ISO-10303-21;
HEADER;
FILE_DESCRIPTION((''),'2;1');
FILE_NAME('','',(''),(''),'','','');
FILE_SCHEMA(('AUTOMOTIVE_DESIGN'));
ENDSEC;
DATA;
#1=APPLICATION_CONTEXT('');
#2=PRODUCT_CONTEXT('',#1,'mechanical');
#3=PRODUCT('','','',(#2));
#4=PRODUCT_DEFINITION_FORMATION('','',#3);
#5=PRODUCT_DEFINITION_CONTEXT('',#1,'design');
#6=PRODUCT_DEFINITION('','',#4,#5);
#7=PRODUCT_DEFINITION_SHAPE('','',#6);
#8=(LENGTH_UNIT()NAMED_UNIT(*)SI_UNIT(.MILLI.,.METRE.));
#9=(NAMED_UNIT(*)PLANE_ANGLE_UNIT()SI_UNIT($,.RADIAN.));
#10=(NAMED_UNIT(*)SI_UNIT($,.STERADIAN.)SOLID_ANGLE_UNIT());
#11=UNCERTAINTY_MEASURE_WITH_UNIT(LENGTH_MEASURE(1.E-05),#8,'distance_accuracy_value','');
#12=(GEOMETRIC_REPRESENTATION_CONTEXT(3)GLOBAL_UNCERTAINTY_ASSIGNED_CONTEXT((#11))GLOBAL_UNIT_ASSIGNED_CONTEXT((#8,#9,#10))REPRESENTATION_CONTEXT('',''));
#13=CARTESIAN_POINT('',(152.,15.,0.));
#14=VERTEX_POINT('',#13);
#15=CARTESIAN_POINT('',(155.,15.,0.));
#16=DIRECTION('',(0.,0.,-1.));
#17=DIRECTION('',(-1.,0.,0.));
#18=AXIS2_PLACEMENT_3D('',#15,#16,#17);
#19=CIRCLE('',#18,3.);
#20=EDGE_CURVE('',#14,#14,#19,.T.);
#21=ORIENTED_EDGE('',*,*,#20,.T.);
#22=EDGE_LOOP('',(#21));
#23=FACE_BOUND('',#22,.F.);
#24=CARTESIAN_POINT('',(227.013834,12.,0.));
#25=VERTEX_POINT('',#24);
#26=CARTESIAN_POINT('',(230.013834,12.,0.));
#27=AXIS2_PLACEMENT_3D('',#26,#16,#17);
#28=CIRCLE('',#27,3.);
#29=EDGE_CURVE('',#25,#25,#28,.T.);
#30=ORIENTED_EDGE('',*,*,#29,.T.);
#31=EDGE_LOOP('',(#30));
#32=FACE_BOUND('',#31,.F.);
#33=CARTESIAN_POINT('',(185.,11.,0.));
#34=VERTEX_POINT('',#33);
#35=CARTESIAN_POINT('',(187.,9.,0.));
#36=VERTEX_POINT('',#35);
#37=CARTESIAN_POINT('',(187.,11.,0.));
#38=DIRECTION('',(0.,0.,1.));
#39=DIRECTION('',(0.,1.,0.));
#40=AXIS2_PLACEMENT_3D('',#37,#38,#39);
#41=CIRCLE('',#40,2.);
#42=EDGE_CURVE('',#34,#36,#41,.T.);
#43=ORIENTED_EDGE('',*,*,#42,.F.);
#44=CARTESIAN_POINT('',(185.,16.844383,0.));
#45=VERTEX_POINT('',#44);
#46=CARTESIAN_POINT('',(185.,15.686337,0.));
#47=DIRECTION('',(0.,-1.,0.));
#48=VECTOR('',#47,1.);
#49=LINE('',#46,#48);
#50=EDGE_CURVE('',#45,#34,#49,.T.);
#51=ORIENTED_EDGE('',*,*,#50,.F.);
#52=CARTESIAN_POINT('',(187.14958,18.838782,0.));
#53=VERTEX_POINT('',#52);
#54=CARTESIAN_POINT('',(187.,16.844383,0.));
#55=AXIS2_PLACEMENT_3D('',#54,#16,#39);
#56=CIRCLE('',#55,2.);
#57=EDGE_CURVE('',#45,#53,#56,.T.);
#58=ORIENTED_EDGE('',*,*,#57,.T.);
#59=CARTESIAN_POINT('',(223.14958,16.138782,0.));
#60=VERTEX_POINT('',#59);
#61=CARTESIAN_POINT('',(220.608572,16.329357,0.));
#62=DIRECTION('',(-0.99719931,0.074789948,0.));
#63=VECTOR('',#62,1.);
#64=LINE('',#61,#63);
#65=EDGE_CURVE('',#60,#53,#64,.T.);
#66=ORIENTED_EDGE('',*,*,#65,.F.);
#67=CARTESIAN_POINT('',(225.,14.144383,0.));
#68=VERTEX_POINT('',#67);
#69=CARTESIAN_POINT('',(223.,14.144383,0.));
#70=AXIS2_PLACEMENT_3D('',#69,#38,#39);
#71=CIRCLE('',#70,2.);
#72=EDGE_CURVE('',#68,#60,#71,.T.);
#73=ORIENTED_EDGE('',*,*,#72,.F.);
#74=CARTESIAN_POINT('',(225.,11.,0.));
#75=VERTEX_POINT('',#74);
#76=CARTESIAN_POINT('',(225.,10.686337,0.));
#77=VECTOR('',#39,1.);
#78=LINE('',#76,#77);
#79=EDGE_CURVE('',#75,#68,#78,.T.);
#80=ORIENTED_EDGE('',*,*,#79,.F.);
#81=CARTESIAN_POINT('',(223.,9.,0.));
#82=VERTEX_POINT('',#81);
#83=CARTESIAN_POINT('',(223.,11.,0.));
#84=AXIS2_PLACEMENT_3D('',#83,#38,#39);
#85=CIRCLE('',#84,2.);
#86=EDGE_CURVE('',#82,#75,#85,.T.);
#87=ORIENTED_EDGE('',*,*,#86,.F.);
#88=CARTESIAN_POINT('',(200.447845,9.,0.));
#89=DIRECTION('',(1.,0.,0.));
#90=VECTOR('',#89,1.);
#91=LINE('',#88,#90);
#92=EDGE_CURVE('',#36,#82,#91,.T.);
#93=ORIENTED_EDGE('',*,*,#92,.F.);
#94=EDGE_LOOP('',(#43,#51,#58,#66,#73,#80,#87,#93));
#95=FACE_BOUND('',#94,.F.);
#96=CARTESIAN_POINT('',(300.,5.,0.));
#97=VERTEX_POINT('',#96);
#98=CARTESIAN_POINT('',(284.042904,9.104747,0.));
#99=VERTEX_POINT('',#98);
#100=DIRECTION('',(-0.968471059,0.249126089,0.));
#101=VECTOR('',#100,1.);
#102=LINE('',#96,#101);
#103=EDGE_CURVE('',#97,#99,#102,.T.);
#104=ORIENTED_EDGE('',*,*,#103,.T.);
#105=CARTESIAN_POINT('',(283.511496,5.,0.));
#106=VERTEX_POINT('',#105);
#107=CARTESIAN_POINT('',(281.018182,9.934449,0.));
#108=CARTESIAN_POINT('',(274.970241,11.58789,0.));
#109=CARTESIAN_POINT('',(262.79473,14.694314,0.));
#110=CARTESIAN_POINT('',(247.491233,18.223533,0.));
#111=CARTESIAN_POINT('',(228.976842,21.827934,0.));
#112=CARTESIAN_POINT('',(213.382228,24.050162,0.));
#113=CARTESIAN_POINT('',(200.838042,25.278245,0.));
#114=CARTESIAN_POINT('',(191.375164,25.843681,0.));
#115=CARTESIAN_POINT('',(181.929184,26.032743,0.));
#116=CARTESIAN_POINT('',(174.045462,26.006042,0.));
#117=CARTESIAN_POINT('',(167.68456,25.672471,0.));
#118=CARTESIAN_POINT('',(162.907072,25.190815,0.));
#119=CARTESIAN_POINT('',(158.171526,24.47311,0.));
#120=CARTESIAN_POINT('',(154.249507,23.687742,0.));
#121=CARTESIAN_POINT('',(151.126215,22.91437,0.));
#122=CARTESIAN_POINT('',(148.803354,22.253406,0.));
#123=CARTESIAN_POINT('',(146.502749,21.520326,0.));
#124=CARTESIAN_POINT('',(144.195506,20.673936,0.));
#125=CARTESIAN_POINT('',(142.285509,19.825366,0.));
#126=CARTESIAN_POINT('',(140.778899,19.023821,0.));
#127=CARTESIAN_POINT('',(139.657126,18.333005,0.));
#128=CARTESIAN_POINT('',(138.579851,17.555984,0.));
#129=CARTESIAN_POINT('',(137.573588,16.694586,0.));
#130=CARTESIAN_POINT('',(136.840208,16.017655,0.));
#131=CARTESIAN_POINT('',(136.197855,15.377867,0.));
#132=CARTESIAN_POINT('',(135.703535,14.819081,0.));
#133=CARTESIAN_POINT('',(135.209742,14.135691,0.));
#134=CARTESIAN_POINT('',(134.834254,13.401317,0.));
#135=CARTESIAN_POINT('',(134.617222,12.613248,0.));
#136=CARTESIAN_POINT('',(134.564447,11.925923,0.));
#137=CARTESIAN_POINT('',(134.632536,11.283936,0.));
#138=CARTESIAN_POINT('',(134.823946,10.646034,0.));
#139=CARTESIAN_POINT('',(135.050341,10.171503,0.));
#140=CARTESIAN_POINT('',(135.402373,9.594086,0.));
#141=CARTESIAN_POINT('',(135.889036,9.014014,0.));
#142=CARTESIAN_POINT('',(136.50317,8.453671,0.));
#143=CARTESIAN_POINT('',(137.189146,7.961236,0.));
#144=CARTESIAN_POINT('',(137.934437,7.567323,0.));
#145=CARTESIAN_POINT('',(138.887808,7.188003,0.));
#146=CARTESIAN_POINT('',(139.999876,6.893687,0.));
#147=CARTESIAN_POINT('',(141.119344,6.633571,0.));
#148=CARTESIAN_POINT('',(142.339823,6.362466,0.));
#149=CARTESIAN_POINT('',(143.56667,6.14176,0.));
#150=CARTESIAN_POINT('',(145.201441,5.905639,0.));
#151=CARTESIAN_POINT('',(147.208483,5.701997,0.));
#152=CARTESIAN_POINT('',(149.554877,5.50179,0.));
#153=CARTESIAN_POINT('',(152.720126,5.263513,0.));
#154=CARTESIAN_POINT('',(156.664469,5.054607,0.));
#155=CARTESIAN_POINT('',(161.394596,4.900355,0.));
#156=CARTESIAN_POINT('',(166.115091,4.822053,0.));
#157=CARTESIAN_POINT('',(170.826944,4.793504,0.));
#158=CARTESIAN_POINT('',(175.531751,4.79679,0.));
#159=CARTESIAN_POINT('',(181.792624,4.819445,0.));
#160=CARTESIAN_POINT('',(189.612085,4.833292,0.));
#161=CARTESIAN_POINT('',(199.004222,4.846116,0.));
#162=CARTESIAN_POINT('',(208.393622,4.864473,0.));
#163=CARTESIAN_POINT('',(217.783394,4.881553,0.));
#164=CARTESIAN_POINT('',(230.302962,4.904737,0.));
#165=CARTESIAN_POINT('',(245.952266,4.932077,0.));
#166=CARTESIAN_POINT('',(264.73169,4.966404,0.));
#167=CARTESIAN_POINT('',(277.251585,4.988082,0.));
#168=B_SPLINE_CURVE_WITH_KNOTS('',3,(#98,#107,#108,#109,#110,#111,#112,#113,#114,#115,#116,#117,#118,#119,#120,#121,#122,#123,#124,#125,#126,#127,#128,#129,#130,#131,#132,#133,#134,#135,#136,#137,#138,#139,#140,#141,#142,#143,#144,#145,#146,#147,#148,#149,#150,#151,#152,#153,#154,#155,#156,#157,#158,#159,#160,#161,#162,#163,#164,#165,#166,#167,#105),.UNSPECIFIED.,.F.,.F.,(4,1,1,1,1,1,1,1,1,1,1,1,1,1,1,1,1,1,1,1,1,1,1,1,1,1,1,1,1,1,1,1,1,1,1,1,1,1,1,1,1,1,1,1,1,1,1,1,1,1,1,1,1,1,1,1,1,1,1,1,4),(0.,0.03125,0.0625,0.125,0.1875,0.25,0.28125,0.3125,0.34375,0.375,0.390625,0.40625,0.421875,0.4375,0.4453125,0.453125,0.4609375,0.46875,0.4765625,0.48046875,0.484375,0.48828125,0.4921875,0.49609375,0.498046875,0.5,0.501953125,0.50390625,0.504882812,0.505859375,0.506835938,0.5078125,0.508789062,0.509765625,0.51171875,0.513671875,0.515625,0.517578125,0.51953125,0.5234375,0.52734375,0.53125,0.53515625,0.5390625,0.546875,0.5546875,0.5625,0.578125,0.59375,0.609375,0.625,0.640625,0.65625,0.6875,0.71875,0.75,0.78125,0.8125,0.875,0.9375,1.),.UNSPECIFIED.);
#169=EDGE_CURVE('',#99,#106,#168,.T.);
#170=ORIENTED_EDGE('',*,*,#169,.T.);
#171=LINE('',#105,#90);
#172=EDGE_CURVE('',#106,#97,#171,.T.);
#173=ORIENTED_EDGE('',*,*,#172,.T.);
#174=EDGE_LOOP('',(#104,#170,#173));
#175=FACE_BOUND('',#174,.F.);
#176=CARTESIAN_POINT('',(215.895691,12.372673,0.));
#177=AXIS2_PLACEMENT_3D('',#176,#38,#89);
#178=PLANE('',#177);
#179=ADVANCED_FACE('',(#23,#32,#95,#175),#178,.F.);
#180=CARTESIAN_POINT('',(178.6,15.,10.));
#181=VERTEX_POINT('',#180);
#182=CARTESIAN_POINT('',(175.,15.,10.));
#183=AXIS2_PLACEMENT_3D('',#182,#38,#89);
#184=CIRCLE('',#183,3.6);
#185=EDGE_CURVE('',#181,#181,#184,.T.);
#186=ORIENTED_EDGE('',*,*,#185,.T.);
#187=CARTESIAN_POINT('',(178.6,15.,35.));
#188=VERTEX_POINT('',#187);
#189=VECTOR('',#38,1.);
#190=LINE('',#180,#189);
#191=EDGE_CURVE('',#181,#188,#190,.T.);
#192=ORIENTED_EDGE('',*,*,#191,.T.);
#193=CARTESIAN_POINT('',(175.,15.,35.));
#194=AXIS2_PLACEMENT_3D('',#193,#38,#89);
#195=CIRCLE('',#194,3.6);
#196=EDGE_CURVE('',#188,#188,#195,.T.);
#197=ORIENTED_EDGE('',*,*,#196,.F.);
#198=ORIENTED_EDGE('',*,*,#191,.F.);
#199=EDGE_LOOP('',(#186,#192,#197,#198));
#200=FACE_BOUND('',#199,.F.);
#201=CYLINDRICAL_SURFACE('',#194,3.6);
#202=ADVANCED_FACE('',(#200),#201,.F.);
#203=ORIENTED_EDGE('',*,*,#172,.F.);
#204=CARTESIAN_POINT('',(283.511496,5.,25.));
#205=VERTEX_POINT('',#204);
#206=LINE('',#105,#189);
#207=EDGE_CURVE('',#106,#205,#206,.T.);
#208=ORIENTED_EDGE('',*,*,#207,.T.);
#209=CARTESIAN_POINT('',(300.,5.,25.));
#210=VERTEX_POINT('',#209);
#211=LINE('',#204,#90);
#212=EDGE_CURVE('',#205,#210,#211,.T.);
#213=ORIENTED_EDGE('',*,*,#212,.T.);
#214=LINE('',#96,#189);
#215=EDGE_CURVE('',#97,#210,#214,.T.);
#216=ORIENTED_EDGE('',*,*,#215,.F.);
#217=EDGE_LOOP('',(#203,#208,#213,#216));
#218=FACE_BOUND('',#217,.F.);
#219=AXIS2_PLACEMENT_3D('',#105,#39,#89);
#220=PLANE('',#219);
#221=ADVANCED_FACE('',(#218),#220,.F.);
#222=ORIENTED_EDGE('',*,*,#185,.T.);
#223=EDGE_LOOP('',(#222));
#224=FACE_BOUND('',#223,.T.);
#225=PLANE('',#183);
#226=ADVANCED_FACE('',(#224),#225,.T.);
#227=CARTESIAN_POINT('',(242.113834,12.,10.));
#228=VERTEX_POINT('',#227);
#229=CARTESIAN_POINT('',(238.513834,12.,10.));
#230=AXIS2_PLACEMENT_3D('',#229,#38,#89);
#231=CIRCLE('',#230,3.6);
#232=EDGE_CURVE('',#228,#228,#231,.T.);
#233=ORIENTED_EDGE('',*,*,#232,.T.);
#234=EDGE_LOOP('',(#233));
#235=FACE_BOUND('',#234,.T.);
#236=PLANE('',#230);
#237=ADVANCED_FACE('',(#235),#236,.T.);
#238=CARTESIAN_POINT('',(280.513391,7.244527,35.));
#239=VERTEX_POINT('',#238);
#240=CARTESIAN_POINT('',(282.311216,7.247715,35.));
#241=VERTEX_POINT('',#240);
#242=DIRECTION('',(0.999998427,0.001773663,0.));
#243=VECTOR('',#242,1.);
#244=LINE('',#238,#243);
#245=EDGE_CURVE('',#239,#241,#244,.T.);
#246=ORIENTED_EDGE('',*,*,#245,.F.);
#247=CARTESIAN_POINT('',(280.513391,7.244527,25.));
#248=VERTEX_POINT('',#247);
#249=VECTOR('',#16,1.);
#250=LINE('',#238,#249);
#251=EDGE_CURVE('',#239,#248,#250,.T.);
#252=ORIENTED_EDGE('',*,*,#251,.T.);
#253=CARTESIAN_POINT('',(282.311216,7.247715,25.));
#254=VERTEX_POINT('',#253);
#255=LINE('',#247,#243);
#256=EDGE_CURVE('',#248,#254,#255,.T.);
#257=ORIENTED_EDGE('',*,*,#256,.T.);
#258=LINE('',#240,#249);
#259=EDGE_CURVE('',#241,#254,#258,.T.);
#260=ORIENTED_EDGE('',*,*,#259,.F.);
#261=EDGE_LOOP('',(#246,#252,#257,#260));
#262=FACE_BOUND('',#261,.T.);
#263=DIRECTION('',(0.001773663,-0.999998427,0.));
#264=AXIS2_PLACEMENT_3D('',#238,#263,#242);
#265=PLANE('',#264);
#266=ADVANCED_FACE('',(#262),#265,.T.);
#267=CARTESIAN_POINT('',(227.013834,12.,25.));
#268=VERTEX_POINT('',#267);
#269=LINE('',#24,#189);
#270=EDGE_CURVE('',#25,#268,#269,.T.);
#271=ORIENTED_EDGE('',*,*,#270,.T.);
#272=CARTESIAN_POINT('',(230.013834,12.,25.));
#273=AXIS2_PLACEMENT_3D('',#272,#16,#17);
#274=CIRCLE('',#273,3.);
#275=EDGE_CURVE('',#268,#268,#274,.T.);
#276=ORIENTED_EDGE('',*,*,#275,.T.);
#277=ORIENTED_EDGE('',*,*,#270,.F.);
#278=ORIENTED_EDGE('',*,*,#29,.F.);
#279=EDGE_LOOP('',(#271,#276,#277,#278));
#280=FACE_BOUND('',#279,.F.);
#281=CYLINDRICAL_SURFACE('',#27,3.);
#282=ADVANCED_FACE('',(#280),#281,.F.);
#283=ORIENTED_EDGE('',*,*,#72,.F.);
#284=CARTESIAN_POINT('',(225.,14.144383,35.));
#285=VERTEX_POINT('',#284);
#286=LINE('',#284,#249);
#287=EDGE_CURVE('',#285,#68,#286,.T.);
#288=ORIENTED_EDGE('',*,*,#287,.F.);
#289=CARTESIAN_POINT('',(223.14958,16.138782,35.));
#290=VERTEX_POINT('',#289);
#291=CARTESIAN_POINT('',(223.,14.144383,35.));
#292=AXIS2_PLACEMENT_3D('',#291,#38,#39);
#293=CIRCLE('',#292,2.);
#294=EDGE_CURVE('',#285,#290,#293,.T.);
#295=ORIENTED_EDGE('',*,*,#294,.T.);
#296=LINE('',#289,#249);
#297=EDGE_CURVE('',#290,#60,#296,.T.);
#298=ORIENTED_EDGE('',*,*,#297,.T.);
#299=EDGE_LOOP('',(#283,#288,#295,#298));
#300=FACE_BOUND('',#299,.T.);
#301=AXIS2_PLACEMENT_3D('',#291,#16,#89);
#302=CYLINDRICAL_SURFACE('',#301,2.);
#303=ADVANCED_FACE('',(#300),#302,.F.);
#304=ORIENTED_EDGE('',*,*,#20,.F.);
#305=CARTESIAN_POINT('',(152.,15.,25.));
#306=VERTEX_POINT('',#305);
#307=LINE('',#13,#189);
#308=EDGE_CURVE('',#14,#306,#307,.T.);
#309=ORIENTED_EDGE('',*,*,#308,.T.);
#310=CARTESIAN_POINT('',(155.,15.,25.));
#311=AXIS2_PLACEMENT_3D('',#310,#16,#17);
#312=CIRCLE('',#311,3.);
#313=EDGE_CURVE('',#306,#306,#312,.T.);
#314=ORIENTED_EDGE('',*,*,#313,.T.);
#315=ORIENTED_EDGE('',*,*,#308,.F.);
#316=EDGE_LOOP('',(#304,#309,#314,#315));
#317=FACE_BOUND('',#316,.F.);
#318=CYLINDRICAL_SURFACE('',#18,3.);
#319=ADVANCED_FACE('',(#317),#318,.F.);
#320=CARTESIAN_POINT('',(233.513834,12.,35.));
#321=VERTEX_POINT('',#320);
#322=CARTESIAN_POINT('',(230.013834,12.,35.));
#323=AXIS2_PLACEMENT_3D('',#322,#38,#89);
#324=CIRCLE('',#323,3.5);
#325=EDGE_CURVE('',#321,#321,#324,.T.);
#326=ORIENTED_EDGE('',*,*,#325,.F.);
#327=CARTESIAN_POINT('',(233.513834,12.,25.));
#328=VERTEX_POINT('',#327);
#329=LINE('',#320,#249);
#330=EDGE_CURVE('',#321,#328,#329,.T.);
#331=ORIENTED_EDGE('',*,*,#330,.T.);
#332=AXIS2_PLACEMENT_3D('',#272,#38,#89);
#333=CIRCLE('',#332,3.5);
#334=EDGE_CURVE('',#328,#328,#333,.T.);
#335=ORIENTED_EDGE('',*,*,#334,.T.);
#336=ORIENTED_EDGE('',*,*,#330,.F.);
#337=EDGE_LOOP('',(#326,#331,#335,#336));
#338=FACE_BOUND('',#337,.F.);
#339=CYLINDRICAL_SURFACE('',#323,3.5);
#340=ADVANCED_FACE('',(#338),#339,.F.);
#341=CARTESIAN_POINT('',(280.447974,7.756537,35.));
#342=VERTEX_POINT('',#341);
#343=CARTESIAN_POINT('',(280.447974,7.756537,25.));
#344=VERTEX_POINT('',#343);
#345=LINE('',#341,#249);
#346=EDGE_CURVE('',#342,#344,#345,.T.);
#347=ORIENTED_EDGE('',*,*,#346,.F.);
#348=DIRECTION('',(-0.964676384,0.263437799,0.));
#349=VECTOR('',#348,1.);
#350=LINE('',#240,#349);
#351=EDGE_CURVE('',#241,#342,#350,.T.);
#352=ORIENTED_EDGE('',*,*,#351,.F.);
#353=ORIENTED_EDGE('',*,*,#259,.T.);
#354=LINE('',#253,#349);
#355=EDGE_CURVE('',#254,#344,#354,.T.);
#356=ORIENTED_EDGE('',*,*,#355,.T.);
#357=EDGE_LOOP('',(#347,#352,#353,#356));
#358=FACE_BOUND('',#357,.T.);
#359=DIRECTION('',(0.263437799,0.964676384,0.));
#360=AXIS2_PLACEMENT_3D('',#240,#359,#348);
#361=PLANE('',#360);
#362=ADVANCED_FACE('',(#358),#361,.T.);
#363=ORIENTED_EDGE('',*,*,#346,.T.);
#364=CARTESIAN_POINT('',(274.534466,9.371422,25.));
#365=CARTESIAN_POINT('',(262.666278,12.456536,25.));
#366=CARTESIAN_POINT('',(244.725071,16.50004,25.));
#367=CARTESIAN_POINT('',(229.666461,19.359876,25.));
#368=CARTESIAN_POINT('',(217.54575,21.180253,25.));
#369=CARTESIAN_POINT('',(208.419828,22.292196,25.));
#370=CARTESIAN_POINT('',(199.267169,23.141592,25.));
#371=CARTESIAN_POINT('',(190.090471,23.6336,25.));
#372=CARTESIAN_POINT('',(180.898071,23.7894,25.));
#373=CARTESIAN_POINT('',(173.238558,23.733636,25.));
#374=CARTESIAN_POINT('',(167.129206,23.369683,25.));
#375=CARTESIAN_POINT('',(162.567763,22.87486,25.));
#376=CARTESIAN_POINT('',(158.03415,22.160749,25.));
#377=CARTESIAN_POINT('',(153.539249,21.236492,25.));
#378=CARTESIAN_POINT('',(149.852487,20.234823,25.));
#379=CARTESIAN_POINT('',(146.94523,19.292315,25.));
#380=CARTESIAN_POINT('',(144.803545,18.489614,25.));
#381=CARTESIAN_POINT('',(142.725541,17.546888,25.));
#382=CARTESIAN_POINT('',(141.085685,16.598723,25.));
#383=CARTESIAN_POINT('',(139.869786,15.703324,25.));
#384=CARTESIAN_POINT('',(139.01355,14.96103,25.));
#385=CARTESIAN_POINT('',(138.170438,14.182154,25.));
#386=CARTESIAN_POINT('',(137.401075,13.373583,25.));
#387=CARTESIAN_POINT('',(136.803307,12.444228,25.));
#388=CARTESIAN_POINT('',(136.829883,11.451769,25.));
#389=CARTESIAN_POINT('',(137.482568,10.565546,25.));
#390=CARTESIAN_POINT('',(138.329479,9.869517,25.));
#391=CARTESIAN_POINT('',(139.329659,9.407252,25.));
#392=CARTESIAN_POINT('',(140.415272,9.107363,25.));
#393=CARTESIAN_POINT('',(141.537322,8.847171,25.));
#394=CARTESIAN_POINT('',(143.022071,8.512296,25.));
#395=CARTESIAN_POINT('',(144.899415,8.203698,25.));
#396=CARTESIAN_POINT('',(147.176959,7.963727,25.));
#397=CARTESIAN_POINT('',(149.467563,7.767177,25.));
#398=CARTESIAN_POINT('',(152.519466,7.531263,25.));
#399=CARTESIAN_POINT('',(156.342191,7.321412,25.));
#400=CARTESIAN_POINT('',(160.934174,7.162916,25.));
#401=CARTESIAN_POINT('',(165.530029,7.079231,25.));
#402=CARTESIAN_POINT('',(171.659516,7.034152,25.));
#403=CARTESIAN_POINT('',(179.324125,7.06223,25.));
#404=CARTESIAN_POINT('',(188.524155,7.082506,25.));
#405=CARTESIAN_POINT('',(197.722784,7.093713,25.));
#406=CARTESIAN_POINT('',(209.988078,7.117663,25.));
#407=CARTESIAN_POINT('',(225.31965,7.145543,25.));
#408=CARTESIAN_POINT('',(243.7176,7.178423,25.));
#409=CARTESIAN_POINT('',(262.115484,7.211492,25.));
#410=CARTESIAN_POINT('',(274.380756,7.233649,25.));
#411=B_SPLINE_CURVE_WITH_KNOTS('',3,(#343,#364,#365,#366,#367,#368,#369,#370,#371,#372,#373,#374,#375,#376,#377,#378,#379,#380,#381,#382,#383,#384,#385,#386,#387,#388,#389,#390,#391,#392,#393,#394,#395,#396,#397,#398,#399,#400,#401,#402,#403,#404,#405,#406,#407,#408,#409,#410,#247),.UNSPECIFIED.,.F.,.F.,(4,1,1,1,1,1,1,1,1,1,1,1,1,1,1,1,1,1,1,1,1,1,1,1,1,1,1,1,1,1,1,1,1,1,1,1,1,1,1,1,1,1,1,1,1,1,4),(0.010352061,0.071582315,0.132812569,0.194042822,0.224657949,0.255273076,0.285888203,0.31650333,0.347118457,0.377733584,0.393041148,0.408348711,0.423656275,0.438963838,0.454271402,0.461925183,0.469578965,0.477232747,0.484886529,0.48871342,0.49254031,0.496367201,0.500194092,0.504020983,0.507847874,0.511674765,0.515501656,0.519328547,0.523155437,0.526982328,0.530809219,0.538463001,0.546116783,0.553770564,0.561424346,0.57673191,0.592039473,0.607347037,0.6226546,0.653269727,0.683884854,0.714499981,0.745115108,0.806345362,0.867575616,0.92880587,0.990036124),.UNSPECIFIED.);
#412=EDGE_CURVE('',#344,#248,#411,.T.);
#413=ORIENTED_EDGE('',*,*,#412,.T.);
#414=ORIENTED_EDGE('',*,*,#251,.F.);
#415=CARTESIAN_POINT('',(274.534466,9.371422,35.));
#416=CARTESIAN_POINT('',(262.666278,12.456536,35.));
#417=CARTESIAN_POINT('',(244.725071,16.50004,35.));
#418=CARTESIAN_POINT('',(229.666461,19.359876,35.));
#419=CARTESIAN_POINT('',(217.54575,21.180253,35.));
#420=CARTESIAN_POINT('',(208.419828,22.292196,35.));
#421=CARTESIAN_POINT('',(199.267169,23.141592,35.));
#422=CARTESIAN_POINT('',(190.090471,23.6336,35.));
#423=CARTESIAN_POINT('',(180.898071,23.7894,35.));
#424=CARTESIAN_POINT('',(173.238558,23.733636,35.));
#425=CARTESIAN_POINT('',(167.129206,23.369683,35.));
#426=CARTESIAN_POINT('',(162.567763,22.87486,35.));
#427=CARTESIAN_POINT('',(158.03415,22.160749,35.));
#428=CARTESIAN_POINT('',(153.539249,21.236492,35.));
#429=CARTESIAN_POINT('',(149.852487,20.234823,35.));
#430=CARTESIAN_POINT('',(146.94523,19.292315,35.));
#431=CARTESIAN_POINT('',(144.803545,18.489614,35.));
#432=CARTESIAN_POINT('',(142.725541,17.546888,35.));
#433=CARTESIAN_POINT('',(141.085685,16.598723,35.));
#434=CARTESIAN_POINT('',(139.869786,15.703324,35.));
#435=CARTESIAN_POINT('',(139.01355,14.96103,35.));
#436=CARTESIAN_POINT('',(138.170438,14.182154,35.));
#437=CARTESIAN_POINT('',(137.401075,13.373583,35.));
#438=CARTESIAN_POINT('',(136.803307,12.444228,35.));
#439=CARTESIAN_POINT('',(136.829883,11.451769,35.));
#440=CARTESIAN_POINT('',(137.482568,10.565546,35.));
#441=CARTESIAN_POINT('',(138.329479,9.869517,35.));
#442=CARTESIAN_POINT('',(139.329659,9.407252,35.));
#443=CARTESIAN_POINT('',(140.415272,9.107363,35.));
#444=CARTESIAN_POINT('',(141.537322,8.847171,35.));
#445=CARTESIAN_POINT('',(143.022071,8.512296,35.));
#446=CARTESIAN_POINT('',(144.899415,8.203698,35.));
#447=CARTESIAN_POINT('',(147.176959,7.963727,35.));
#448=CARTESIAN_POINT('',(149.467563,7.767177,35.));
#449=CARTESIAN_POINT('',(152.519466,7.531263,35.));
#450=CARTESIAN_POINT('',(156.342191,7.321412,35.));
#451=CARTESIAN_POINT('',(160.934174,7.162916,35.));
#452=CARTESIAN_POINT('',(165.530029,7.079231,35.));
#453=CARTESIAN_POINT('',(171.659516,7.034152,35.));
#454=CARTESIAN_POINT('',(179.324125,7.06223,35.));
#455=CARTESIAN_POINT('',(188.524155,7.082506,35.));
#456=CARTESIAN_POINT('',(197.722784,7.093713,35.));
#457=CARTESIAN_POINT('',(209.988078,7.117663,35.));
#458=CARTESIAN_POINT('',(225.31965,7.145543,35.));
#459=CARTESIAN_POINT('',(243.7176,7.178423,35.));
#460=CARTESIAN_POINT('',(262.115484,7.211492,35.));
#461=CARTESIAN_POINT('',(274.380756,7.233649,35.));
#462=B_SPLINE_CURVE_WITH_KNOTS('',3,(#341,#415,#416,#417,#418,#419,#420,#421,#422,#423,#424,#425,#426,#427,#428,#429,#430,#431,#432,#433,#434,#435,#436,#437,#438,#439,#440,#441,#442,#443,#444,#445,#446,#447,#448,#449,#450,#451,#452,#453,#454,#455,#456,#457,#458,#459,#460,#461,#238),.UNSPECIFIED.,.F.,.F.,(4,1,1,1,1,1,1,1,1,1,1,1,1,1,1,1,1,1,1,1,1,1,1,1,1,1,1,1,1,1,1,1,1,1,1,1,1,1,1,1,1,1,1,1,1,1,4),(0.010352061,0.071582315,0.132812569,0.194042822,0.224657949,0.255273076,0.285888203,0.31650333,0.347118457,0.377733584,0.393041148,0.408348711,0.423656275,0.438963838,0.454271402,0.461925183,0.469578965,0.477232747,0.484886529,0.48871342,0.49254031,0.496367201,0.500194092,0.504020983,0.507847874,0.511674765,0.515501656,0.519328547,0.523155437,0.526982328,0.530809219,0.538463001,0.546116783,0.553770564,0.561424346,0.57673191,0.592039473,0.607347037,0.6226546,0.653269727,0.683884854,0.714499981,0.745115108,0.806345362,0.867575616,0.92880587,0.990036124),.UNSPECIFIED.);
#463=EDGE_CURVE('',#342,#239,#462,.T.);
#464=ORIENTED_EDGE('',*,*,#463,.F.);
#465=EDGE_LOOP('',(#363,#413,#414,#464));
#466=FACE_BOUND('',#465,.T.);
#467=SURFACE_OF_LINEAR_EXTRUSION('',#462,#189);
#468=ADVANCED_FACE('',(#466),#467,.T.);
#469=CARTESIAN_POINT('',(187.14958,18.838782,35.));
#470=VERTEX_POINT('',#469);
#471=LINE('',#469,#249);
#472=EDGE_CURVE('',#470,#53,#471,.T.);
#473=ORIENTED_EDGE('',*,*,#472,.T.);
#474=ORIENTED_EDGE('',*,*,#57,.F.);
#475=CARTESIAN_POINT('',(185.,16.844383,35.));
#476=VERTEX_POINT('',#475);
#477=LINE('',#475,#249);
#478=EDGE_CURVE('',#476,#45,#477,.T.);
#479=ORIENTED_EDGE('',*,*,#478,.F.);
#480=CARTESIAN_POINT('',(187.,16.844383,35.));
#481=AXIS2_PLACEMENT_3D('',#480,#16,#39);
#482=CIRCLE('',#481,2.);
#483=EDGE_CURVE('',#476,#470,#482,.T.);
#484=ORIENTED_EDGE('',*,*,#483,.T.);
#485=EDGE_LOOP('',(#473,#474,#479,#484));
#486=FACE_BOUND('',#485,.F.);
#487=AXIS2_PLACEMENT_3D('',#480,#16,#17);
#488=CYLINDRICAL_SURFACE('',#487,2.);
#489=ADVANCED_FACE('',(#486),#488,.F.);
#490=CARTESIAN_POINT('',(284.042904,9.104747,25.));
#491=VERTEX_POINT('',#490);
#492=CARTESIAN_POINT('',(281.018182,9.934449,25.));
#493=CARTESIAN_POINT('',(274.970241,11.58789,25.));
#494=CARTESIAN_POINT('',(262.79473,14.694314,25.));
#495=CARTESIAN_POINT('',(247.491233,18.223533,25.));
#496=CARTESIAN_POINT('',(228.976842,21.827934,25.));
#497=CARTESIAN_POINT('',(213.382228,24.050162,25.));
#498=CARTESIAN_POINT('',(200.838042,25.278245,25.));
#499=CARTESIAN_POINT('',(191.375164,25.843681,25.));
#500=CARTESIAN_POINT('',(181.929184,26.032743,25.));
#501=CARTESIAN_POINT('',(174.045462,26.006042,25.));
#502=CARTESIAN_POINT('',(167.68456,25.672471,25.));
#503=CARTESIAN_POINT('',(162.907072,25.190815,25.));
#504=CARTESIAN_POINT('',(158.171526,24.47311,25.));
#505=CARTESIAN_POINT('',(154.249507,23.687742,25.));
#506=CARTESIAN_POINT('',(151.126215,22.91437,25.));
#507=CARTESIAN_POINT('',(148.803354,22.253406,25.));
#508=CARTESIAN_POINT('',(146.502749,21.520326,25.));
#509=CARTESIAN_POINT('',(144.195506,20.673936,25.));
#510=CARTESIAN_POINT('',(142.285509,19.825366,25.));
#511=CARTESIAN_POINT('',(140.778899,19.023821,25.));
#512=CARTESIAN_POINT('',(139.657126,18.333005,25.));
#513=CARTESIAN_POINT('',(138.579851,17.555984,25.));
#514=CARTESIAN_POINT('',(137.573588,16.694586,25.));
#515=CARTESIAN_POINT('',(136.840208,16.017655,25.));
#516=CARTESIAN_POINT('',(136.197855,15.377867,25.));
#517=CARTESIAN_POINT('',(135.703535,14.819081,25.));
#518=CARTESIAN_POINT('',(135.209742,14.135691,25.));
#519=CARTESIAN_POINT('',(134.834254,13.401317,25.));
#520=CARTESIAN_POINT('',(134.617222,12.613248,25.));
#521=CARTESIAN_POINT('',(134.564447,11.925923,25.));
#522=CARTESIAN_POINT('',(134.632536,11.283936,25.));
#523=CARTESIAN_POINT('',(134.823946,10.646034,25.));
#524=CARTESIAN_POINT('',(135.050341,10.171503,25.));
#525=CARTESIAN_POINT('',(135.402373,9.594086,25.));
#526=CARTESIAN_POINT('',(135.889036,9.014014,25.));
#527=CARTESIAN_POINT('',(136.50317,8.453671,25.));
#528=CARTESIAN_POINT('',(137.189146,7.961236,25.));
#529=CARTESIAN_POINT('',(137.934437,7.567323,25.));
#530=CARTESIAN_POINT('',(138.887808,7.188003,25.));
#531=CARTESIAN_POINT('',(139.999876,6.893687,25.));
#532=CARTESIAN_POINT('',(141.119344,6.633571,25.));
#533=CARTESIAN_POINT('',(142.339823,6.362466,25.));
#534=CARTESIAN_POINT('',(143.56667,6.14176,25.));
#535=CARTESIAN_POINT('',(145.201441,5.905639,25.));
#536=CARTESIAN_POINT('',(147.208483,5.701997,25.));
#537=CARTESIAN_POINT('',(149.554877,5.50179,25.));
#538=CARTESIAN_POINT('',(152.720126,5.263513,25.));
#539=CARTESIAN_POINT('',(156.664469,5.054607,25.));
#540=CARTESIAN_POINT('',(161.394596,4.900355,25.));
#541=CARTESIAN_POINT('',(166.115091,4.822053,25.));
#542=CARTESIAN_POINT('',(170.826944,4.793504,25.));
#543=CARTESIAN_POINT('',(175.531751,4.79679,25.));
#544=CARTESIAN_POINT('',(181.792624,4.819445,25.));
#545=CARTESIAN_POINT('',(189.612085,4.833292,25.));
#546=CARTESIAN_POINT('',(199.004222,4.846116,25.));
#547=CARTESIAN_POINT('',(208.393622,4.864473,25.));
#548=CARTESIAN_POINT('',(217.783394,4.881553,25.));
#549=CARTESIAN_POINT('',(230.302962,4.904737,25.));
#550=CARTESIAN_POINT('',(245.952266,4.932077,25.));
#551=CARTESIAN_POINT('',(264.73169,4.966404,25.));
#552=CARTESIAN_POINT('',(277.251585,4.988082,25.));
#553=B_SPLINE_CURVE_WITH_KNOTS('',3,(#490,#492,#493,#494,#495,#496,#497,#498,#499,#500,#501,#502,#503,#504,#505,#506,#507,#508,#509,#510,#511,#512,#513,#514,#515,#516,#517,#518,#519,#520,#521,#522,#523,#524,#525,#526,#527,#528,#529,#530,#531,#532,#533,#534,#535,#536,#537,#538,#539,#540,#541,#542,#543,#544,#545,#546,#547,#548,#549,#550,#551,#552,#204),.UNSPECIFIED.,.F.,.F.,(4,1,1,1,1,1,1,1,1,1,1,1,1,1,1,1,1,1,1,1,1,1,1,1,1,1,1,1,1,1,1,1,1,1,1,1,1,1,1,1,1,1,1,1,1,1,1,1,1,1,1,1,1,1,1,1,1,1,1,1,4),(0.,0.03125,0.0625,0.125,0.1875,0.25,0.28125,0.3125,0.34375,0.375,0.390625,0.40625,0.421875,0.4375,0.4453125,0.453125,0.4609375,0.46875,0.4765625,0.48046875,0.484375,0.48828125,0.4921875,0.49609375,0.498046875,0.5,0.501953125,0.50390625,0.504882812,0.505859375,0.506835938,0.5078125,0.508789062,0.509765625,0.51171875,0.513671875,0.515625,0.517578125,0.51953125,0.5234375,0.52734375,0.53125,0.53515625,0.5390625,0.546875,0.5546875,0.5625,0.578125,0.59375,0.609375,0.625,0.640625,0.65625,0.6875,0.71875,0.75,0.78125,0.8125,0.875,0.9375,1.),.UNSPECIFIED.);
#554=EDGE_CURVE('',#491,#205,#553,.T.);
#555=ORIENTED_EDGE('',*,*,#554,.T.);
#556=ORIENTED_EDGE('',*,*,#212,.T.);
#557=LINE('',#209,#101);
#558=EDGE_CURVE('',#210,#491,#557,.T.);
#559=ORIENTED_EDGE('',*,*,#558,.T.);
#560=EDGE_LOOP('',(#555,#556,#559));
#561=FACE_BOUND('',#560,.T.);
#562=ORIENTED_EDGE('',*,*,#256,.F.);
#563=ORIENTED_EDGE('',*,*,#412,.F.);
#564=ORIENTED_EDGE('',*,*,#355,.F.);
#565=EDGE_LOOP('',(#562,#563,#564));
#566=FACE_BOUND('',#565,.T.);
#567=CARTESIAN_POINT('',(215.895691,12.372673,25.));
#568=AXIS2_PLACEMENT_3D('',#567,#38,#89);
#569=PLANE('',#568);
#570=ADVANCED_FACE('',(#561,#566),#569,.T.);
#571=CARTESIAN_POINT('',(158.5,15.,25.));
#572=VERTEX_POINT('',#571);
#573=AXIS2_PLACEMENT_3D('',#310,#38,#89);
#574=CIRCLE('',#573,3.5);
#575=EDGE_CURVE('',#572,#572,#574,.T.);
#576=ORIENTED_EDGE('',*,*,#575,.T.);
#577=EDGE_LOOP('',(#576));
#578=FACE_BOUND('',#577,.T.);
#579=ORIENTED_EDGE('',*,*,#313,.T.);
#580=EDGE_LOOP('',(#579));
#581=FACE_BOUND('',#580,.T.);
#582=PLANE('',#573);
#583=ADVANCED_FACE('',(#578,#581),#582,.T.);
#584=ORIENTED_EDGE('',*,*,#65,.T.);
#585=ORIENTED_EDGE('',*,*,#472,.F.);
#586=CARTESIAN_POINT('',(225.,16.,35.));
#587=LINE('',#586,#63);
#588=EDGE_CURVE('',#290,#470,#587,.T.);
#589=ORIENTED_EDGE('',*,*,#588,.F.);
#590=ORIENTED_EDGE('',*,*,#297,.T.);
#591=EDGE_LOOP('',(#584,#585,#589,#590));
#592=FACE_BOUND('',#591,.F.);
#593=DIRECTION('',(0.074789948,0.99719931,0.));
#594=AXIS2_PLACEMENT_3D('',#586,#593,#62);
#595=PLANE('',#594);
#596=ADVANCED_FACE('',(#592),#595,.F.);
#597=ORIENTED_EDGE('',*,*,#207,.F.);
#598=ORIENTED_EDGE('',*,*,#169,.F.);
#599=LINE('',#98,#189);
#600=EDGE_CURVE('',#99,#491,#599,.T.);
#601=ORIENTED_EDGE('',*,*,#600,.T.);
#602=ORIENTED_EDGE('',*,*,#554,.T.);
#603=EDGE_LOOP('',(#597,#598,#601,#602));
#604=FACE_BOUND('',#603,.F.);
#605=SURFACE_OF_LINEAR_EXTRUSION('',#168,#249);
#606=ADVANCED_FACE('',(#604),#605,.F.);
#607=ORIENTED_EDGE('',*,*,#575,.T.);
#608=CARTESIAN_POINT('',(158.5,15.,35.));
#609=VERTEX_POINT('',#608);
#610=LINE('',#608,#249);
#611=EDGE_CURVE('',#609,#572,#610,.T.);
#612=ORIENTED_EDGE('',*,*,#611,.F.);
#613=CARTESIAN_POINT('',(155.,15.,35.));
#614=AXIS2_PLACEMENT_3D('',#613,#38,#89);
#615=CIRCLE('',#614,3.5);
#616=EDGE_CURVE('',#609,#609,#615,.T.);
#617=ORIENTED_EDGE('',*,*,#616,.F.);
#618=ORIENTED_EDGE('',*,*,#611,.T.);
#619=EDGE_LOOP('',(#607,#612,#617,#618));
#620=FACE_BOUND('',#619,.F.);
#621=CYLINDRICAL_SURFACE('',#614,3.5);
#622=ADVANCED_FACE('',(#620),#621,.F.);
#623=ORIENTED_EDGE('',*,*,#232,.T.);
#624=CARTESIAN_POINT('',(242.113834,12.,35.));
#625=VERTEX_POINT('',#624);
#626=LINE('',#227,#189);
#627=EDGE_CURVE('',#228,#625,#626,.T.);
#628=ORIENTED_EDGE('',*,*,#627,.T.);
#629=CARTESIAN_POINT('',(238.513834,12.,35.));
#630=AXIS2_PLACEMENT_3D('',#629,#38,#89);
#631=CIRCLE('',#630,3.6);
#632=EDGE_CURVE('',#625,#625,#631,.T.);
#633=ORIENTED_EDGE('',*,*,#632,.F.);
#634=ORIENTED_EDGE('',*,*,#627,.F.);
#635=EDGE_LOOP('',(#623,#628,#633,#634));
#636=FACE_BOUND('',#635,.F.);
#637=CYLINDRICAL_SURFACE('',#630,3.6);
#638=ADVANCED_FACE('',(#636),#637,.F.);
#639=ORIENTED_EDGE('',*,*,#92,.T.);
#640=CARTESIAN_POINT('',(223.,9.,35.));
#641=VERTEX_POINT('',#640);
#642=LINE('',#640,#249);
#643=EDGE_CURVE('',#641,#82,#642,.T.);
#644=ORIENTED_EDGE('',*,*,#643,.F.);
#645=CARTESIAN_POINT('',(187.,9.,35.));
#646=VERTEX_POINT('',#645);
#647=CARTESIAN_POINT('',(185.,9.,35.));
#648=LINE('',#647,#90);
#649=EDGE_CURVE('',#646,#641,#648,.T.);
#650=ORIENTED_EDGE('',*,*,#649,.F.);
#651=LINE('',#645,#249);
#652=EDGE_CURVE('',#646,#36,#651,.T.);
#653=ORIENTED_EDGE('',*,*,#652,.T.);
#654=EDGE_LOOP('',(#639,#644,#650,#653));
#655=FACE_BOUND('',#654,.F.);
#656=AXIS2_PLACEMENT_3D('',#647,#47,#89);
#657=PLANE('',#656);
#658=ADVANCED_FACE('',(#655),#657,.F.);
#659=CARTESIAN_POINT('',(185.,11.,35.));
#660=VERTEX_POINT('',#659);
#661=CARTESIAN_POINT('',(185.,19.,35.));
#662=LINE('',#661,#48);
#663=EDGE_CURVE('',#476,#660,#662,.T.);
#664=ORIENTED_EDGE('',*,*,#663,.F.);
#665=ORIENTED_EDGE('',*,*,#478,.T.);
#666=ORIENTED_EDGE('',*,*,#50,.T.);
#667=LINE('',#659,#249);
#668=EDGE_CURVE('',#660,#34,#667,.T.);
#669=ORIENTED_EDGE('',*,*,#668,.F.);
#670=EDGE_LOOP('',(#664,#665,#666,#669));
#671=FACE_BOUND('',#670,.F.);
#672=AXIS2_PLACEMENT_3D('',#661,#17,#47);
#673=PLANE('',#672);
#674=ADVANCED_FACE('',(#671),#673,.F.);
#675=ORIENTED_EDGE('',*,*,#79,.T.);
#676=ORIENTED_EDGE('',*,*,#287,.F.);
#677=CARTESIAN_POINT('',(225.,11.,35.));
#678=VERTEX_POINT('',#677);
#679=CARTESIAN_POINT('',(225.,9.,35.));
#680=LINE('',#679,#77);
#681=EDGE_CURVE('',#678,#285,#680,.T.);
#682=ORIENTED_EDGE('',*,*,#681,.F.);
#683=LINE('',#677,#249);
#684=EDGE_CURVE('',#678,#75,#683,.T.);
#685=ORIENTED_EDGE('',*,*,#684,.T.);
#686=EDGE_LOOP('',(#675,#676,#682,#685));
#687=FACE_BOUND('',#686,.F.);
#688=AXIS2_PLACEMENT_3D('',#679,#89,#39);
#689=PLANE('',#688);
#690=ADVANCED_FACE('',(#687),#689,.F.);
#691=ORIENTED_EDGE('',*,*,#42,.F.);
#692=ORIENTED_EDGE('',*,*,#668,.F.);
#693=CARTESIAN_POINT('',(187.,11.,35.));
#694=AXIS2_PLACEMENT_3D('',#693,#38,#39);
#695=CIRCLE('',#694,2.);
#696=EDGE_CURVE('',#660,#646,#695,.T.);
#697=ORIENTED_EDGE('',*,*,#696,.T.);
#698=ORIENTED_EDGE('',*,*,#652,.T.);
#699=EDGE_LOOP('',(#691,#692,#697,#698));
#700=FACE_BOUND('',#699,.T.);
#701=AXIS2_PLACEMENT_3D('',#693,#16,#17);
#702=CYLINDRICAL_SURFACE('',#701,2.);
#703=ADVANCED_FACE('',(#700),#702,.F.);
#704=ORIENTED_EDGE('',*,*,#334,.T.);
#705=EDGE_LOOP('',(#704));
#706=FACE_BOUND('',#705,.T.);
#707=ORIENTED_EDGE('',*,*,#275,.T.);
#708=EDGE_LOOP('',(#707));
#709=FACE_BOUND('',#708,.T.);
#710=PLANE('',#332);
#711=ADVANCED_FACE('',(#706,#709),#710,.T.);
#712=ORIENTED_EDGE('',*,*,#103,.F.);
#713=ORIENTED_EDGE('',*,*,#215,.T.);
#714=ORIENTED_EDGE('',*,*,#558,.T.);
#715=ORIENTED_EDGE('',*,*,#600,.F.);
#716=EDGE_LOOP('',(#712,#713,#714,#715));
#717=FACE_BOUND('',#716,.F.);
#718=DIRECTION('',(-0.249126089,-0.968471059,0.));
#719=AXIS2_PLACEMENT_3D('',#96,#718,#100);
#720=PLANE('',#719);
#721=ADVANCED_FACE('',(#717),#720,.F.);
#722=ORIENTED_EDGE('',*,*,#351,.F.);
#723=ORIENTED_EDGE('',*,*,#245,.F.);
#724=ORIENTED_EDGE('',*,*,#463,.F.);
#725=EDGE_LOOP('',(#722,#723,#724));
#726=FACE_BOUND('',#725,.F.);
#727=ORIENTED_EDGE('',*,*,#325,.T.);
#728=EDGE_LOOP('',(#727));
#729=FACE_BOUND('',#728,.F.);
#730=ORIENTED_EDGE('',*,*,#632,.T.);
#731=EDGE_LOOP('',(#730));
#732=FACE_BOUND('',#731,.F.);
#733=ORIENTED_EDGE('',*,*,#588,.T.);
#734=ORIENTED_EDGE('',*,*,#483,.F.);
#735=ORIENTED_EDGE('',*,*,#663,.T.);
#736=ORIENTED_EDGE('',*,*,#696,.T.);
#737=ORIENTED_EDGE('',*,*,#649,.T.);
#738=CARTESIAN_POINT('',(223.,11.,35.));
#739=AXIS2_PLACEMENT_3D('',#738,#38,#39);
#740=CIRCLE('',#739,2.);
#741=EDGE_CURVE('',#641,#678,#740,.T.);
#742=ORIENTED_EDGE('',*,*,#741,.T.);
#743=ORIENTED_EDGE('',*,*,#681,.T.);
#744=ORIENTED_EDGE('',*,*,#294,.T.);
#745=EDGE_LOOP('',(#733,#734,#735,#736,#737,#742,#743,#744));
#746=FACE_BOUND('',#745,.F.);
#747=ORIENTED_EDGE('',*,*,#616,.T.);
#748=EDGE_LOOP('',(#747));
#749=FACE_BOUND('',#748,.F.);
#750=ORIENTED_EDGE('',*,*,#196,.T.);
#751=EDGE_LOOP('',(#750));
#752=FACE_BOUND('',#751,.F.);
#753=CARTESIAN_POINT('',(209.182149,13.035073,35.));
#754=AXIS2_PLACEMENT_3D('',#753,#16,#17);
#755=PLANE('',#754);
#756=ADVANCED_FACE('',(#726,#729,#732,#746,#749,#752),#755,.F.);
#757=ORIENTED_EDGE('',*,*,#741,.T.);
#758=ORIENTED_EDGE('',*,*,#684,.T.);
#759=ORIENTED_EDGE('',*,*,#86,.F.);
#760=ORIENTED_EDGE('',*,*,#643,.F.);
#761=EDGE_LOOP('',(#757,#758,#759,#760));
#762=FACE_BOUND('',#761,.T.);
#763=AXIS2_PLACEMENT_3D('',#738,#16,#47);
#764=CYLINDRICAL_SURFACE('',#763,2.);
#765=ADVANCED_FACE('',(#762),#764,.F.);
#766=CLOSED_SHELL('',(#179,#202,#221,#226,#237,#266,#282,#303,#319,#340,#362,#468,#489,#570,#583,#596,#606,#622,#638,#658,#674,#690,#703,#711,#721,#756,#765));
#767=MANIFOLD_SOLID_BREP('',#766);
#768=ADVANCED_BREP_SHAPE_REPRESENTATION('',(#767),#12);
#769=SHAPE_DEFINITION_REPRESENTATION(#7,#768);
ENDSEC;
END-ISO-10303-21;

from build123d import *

# Parameters (mm, degrees)
BOSS_EXTRUDE1_DEPTH = 25
BOSS_EXTRUDE2_DEPTH = 10
SKETCH4_R           = 3.6
CUT_EXTRUDE1_DEPTH  = 15
CUT_EXTRUDE3_DEPTH  = 36.0000001
FILLET1_R           = 2
SKETCH7_R           = 3.6
CUT_EXTRUDE5_DEPTH  = 10
CUT_EXTRUDE8_DEPTH  = 10
SKETCH12_R          = 3
CUT_EXTRUDE9_DEPTH  = 36.0000001
SKETCH13_R          = 3.5
CUT_EXTRUDE10_DEPTH = 10


with BuildPart() as part:
    # Sketch1 → Boss-Extrude1 (new body)
    with BuildSketch(Plane.XY):
        with BuildLine():
            Line((283.511495539, 5), (300, 5))
            Line((300, 5), (284.042903706, 9.104747331))
            add(Edge.make_bspline(
                [(284.042903706, 9.104747331), (281.018182266, 9.934448854), (274.970241175, 11.587890144), (262.79473022, 14.694313575), (247.491233442, 18.223533255), (228.976842031, 21.827934197), (213.382227838, 24.050161757), (200.838041916, 25.278245027), (191.375164043, 25.84368073), (181.929184267, 26.032743059), (174.045462371, 26.006042455), (167.684560321, 25.672470841), (162.907071513, 25.190814957), (158.171526473, 24.473110108), (154.249506507, 23.687741972), (151.126214943, 22.914370362), (148.803354307, 22.253406079), (146.502749028, 21.520325526), (144.195506174, 20.673935797), (142.285508901, 19.825366279), (140.77889876, 19.023820525), (139.657125815, 18.333005403), (138.579850724, 17.555983513), (137.573588148, 16.694586159), (136.840207592, 16.017655424), (136.197854945, 15.377866917), (135.703534611, 14.819080651), (135.209742419, 14.135691171), (134.834254268, 13.401317293), (134.617222415, 12.613247879), (134.564446521, 11.925922824), (134.632536136, 11.28393571), (134.823945829, 10.646033518), (135.050340736, 10.171503439), (135.402372545, 9.594086183), (135.88903595, 9.014014422), (136.503170411, 8.453671438), (137.189145836, 7.961236195), (137.934436655, 7.567322512), (138.88780816, 7.188002663), (139.999875909, 6.893687057), (141.119343981, 6.633570858), (142.339822694, 6.362465545), (143.566669583, 6.141759686), (145.201441111, 5.905638988), (147.208483131, 5.701996633), (149.554876985, 5.501790345), (152.720125659, 5.26351314), (156.664468718, 5.054606644), (161.394596408, 4.900355455), (166.115091131, 4.822052763), (170.826943763, 4.793504207), (175.53175108, 4.796790347), (181.792624225, 4.819444757), (189.6120847, 4.833292228), (199.004221884, 4.846116121), (208.393622069, 4.86447262), (217.783394427, 4.881553097), (230.302961737, 4.904736774), (245.952266215, 4.932077157), (264.731689616, 4.966403983), (277.251584666, 4.988082326), (283.511495539, 5)],
                knots=[0, 0, 0, 0, 0.03125, 0.0625, 0.125, 0.1875, 0.25, 0.28125, 0.3125, 0.34375, 0.375, 0.390625, 0.40625, 0.421875, 0.4375, 0.4453125, 0.453125, 0.4609375, 0.46875, 0.4765625, 0.48046875, 0.484375, 0.48828125, 0.4921875, 0.49609375, 0.498046875, 0.5, 0.501953125, 0.50390625, 0.504882812, 0.505859375, 0.506835938, 0.5078125, 0.508789062, 0.509765625, 0.51171875, 0.513671875, 0.515625, 0.517578125, 0.51953125, 0.5234375, 0.52734375, 0.53125, 0.53515625, 0.5390625, 0.546875, 0.5546875, 0.5625, 0.578125, 0.59375, 0.609375, 0.625, 0.640625, 0.65625, 0.6875, 0.71875, 0.75, 0.78125, 0.8125, 0.875, 0.9375, 1, 1, 1, 1], degree=3))
        make_face()
    extrude(amount=BOSS_EXTRUDE1_DEPTH)

    # Sketch2 → Boss-Extrude2 (add)
    with BuildSketch(Plane.XY.offset(25)):
        with BuildLine():
            Line((283.513833939, 7.175995097), (283.507687929, 6.999996376))
            add(Edge.make_bspline(
                [(283.513833939, 7.175995097), (281.571904317, 7.70867951), (278.660206217, 8.507455383), (273.803739367, 9.80565678), (267.97829695, 11.312028336), (262.142072687, 12.749566544), (255.333625933, 14.349614888), (248.529613694, 15.873152186), (237.829834978, 18.074534328), (225.176932927, 20.37341773), (211.498139299, 22.244459108), (201.708098139, 23.182256892), (192.898920041, 23.758329904), (187.019418903, 23.949968323), (180.15742652, 24.013831631), (175.249730247, 24.004272513), (170.338530232, 23.831174476), (165.415432247, 23.461746301), (161.471844656, 22.973662362), (156.530765352, 22.131833865), (152.563801607, 21.260194487), (148.61875975, 20.114158122), (145.614430375, 19.098876324), (143.118037069, 18.029614893), (141.123958755, 16.9205006), (139.709137736, 15.918497883), (138.639345116, 14.95805949), (137.821338999, 14.184645576), (137.299185859, 13.616573145), (136.909881104, 13.064885766), (136.694719435, 12.628458505), (136.558079327, 12.1110472), (136.590613242, 11.681743145), (136.726425076, 11.304303594), (136.875964941, 11.002707479), (137.185565184, 10.559851475), (137.664667186, 10.08522865), (138.418575368, 9.535630723), (139.499520541, 9.074027829), (140.887462138, 8.7435984), (142.345331504, 8.400407996), (143.807660076, 8.124702473), (145.759448913, 7.848569845), (148.205744396, 7.622105414), (151.139287771, 7.379908489), (157.009672693, 7.006958204), (166.81242185, 6.755142002), (180.53899309, 6.823541362), (193.287044915, 6.836259813), (208.977590991, 6.865360258), (224.668134499, 6.894381263), (240.35868648, 6.922785416), (251.145938886, 6.941204055), (259.971867913, 6.958006911), (268.797802015, 6.972991946), (276.643073115, 6.987898539), (281.546370172, 6.996262401), (283.507687929, 6.999996376)],
                knots=[0, 0, 0, 0, 0.020105055, 0.030145261, 0.050190794, 0.080180377, 0.09015591, 0.120020101, 0.149793491, 0.199219015, 0.248395636, 0.287604023, 0.297393127, 0.336534715, 0.346322474, 0.365907652, 0.385530879, 0.395375762, 0.415192461, 0.425184025, 0.445412191, 0.455710779, 0.466190959, 0.477054504, 0.482786727, 0.488945835, 0.494316033, 0.497126416, 0.500187368, 0.502000869, 0.503849971, 0.505020137, 0.507317905, 0.507986558, 0.509023586, 0.510668219, 0.513358348, 0.515715812, 0.519949385, 0.524973188, 0.5299544, 0.534903202, 0.539824123, 0.549630394, 0.559425369, 0.569214167, 0.608355933, 0.657307127, 0.70626328, 0.735636871, 0.813966735, 0.862922864, 0.892296527, 0.921670208, 0.951043871, 0.980417552, 1, 1, 1, 1], degree=3))
        make_face()
    extrude(amount=BOSS_EXTRUDE2_DEPTH)

    # Sketch4 → Cut-Extrude1 (cut)
    with BuildSketch(Plane.XY.offset(35)):
        with Locations((175, 15)):
            Circle(SKETCH4_R)
        with Locations((238.513833939, 12)):
            Circle(SKETCH4_R)
    extrude(amount=-CUT_EXTRUDE1_DEPTH, mode=Mode.SUBTRACT)

    # Sketch5 → Cut-Extrude3 (cut, through all)
    with BuildSketch(Plane.XY.offset(35)):
        Polygon((185, 19), (185, 9), (225, 9), (225, 16), align=None)
    extrude(amount=-CUT_EXTRUDE3_DEPTH, mode=Mode.SUBTRACT)

    # Fillet1
    fillet1_edges = [part.edges().sort_by_distance(p)[0] for p in [
        (185, 19, 17.5),
        (225, 16, 17.5),
        (225, 9, 17.5),
        (185, 9, 17.5),
    ]]
    fillet(fillet1_edges, radius=FILLET1_R)

    # Sketch7 → Cut-Extrude5 (cut)
    with BuildSketch(Plane.XY.offset(20)):
        with Locations((238.513833939, 12)):
            Circle(SKETCH7_R)
        with Locations((175, 15)):
            Circle(SKETCH7_R)
    extrude(amount=-CUT_EXTRUDE5_DEPTH, mode=Mode.SUBTRACT)

    # Sketch11 → Cut-Extrude8 (cut)
    with BuildSketch(Plane.XY.offset(35)):
        with BuildLine():
            Line((283.511495539, 5), (300, 5))
            Line((300, 5), (284.042903706, 9.104747331))
            add(Edge.make_bspline(
                [(284.042903706, 9.104747331), (281.018182266, 9.934448854), (274.970241175, 11.587890144), (262.79473022, 14.694313575), (247.491233442, 18.223533255), (228.976842031, 21.827934197), (213.382227838, 24.050161757), (200.838041916, 25.278245027), (191.375164043, 25.84368073), (181.929184267, 26.032743059), (174.045462371, 26.006042455), (167.684560321, 25.672470841), (162.907071513, 25.190814957), (158.171526473, 24.473110108), (154.249506507, 23.687741972), (151.126214943, 22.914370362), (148.803354307, 22.253406079), (146.502749028, 21.520325526), (144.195506174, 20.673935797), (142.285508901, 19.825366279), (140.77889876, 19.023820525), (139.657125815, 18.333005403), (138.579850724, 17.555983513), (137.573588148, 16.694586159), (136.840207592, 16.017655424), (136.197854945, 15.377866917), (135.703534611, 14.819080651), (135.209742419, 14.135691171), (134.834254268, 13.401317293), (134.617222415, 12.613247879), (134.564446521, 11.925922824), (134.632536136, 11.28393571), (134.823945829, 10.646033518), (135.050340736, 10.171503439), (135.402372545, 9.594086183), (135.88903595, 9.014014422), (136.503170411, 8.453671438), (137.189145836, 7.961236195), (137.934436655, 7.567322512), (138.88780816, 7.188002663), (139.999875909, 6.893687057), (141.119343981, 6.633570858), (142.339822694, 6.362465545), (143.566669583, 6.141759686), (145.201441111, 5.905638988), (147.208483131, 5.701996633), (149.554876985, 5.501790345), (152.720125659, 5.26351314), (156.664468718, 5.054606644), (161.394596408, 4.900355455), (166.115091131, 4.822052763), (170.826943763, 4.793504207), (175.53175108, 4.796790347), (181.792624225, 4.819444757), (189.6120847, 4.833292228), (199.004221884, 4.846116121), (208.393622069, 4.86447262), (217.783394427, 4.881553097), (230.302961737, 4.904736774), (245.952266215, 4.932077157), (264.731689616, 4.966403983), (277.251584666, 4.988082326), (283.511495539, 5)],
                knots=[0, 0, 0, 0, 0.03125, 0.0625, 0.125, 0.1875, 0.25, 0.28125, 0.3125, 0.34375, 0.375, 0.390625, 0.40625, 0.421875, 0.4375, 0.4453125, 0.453125, 0.4609375, 0.46875, 0.4765625, 0.48046875, 0.484375, 0.48828125, 0.4921875, 0.49609375, 0.498046875, 0.5, 0.501953125, 0.50390625, 0.504882812, 0.505859375, 0.506835938, 0.5078125, 0.508789062, 0.509765625, 0.51171875, 0.513671875, 0.515625, 0.517578125, 0.51953125, 0.5234375, 0.52734375, 0.53125, 0.53515625, 0.5390625, 0.546875, 0.5546875, 0.5625, 0.578125, 0.59375, 0.609375, 0.625, 0.640625, 0.65625, 0.6875, 0.71875, 0.75, 0.78125, 0.8125, 0.875, 0.9375, 1, 1, 1, 1], degree=3))
        make_face()
        with BuildLine():
            Line((280.513390523, 7.244526695), (282.311215859, 7.247715437))
            Line((282.311215859, 7.247715437), (280.44797449, 7.756537062))
            add(Edge.make_bspline(
                [(280.44797449, 7.756537062), (274.534465518, 9.371422441), (262.666278129, 12.456536483), (244.725070703, 16.500039954), (229.666461352, 19.35987636), (217.545749679, 21.180252708), (208.419827833, 22.292195861), (199.267169335, 23.141591681), (190.090470638, 23.633600144), (180.898070651, 23.789400172), (173.238558093, 23.733636136), (167.129206096, 23.369682896), (162.567763373, 22.874860039), (158.034150221, 22.16074902), (153.539248689, 21.236492218), (149.852487199, 20.234822881), (146.945230118, 19.292315286), (144.803545274, 18.48961438), (142.725540705, 17.546887534), (141.085684909, 16.598722592), (139.86978606, 15.703323679), (139.013550133, 14.961029981), (138.170437688, 14.182154097), (137.401074911, 13.373582652), (136.803307143, 12.444228231), (136.829882646, 11.451768694), (137.482568342, 10.565545947), (138.329478635, 9.869516572), (139.329659123, 9.407251793), (140.415272051, 9.107362954), (141.537321939, 8.847170661), (143.022070654, 8.512295915), (144.899414778, 8.203698196), (147.17695901, 7.963727425), (149.467563487, 7.767177325), (152.519466424, 7.531262629), (156.342190917, 7.321412147), (160.934174151, 7.162916123), (165.530029485, 7.079231042), (171.659516065, 7.034152237), (179.324124736, 7.062229579), (188.524155347, 7.082506373), (197.722784075, 7.093713479), (209.988077557, 7.117662613), (225.319649881, 7.145543289), (243.717600096, 7.178422958), (262.115483697, 7.211491555), (274.380756079, 7.23364945), (280.513390523, 7.244526695)],
                knots=[0.010352061, 0.010352061, 0.010352061, 0.010352061, 0.071582315, 0.132812569, 0.194042822, 0.224657949, 0.255273076, 0.285888203, 0.31650333, 0.347118457, 0.377733584, 0.393041148, 0.408348711, 0.423656275, 0.438963838, 0.454271402, 0.461925183, 0.469578965, 0.477232747, 0.484886529, 0.48871342, 0.49254031, 0.496367201, 0.500194092, 0.504020983, 0.507847874, 0.511674765, 0.515501656, 0.519328547, 0.523155437, 0.526982328, 0.530809219, 0.538463001, 0.546116783, 0.553770564, 0.561424346, 0.57673191, 0.592039473, 0.607347037, 0.6226546, 0.653269727, 0.683884854, 0.714499981, 0.745115108, 0.806345362, 0.867575616, 0.92880587, 0.990036124, 0.990036124, 0.990036124, 0.990036124], degree=3))
        make_face(mode=Mode.SUBTRACT)
    extrude(amount=-CUT_EXTRUDE8_DEPTH, mode=Mode.SUBTRACT)

    # Sketch12 → Cut-Extrude9 (cut, through all)
    with BuildSketch(Plane(origin=(0, 0, 0), x_dir=(-1, 0, 0), z_dir=(0, 0, -1))):
        with Locations((-154.999999999, 15)):
            Circle(SKETCH12_R)
        with Locations((-230.013833939, 12)):
            Circle(SKETCH12_R)
    extrude(amount=-CUT_EXTRUDE9_DEPTH, mode=Mode.SUBTRACT)

    # Sketch13 → Cut-Extrude10 (cut)
    with BuildSketch(Plane.XY.offset(35)):
        with Locations((154.999999999, 15)):
            Circle(SKETCH13_R)
        with Locations((230.013833939, 12)):
            Circle(SKETCH13_R)
    extrude(amount=-CUT_EXTRUDE10_DEPTH, mode=Mode.SUBTRACT)


solid = part.part
